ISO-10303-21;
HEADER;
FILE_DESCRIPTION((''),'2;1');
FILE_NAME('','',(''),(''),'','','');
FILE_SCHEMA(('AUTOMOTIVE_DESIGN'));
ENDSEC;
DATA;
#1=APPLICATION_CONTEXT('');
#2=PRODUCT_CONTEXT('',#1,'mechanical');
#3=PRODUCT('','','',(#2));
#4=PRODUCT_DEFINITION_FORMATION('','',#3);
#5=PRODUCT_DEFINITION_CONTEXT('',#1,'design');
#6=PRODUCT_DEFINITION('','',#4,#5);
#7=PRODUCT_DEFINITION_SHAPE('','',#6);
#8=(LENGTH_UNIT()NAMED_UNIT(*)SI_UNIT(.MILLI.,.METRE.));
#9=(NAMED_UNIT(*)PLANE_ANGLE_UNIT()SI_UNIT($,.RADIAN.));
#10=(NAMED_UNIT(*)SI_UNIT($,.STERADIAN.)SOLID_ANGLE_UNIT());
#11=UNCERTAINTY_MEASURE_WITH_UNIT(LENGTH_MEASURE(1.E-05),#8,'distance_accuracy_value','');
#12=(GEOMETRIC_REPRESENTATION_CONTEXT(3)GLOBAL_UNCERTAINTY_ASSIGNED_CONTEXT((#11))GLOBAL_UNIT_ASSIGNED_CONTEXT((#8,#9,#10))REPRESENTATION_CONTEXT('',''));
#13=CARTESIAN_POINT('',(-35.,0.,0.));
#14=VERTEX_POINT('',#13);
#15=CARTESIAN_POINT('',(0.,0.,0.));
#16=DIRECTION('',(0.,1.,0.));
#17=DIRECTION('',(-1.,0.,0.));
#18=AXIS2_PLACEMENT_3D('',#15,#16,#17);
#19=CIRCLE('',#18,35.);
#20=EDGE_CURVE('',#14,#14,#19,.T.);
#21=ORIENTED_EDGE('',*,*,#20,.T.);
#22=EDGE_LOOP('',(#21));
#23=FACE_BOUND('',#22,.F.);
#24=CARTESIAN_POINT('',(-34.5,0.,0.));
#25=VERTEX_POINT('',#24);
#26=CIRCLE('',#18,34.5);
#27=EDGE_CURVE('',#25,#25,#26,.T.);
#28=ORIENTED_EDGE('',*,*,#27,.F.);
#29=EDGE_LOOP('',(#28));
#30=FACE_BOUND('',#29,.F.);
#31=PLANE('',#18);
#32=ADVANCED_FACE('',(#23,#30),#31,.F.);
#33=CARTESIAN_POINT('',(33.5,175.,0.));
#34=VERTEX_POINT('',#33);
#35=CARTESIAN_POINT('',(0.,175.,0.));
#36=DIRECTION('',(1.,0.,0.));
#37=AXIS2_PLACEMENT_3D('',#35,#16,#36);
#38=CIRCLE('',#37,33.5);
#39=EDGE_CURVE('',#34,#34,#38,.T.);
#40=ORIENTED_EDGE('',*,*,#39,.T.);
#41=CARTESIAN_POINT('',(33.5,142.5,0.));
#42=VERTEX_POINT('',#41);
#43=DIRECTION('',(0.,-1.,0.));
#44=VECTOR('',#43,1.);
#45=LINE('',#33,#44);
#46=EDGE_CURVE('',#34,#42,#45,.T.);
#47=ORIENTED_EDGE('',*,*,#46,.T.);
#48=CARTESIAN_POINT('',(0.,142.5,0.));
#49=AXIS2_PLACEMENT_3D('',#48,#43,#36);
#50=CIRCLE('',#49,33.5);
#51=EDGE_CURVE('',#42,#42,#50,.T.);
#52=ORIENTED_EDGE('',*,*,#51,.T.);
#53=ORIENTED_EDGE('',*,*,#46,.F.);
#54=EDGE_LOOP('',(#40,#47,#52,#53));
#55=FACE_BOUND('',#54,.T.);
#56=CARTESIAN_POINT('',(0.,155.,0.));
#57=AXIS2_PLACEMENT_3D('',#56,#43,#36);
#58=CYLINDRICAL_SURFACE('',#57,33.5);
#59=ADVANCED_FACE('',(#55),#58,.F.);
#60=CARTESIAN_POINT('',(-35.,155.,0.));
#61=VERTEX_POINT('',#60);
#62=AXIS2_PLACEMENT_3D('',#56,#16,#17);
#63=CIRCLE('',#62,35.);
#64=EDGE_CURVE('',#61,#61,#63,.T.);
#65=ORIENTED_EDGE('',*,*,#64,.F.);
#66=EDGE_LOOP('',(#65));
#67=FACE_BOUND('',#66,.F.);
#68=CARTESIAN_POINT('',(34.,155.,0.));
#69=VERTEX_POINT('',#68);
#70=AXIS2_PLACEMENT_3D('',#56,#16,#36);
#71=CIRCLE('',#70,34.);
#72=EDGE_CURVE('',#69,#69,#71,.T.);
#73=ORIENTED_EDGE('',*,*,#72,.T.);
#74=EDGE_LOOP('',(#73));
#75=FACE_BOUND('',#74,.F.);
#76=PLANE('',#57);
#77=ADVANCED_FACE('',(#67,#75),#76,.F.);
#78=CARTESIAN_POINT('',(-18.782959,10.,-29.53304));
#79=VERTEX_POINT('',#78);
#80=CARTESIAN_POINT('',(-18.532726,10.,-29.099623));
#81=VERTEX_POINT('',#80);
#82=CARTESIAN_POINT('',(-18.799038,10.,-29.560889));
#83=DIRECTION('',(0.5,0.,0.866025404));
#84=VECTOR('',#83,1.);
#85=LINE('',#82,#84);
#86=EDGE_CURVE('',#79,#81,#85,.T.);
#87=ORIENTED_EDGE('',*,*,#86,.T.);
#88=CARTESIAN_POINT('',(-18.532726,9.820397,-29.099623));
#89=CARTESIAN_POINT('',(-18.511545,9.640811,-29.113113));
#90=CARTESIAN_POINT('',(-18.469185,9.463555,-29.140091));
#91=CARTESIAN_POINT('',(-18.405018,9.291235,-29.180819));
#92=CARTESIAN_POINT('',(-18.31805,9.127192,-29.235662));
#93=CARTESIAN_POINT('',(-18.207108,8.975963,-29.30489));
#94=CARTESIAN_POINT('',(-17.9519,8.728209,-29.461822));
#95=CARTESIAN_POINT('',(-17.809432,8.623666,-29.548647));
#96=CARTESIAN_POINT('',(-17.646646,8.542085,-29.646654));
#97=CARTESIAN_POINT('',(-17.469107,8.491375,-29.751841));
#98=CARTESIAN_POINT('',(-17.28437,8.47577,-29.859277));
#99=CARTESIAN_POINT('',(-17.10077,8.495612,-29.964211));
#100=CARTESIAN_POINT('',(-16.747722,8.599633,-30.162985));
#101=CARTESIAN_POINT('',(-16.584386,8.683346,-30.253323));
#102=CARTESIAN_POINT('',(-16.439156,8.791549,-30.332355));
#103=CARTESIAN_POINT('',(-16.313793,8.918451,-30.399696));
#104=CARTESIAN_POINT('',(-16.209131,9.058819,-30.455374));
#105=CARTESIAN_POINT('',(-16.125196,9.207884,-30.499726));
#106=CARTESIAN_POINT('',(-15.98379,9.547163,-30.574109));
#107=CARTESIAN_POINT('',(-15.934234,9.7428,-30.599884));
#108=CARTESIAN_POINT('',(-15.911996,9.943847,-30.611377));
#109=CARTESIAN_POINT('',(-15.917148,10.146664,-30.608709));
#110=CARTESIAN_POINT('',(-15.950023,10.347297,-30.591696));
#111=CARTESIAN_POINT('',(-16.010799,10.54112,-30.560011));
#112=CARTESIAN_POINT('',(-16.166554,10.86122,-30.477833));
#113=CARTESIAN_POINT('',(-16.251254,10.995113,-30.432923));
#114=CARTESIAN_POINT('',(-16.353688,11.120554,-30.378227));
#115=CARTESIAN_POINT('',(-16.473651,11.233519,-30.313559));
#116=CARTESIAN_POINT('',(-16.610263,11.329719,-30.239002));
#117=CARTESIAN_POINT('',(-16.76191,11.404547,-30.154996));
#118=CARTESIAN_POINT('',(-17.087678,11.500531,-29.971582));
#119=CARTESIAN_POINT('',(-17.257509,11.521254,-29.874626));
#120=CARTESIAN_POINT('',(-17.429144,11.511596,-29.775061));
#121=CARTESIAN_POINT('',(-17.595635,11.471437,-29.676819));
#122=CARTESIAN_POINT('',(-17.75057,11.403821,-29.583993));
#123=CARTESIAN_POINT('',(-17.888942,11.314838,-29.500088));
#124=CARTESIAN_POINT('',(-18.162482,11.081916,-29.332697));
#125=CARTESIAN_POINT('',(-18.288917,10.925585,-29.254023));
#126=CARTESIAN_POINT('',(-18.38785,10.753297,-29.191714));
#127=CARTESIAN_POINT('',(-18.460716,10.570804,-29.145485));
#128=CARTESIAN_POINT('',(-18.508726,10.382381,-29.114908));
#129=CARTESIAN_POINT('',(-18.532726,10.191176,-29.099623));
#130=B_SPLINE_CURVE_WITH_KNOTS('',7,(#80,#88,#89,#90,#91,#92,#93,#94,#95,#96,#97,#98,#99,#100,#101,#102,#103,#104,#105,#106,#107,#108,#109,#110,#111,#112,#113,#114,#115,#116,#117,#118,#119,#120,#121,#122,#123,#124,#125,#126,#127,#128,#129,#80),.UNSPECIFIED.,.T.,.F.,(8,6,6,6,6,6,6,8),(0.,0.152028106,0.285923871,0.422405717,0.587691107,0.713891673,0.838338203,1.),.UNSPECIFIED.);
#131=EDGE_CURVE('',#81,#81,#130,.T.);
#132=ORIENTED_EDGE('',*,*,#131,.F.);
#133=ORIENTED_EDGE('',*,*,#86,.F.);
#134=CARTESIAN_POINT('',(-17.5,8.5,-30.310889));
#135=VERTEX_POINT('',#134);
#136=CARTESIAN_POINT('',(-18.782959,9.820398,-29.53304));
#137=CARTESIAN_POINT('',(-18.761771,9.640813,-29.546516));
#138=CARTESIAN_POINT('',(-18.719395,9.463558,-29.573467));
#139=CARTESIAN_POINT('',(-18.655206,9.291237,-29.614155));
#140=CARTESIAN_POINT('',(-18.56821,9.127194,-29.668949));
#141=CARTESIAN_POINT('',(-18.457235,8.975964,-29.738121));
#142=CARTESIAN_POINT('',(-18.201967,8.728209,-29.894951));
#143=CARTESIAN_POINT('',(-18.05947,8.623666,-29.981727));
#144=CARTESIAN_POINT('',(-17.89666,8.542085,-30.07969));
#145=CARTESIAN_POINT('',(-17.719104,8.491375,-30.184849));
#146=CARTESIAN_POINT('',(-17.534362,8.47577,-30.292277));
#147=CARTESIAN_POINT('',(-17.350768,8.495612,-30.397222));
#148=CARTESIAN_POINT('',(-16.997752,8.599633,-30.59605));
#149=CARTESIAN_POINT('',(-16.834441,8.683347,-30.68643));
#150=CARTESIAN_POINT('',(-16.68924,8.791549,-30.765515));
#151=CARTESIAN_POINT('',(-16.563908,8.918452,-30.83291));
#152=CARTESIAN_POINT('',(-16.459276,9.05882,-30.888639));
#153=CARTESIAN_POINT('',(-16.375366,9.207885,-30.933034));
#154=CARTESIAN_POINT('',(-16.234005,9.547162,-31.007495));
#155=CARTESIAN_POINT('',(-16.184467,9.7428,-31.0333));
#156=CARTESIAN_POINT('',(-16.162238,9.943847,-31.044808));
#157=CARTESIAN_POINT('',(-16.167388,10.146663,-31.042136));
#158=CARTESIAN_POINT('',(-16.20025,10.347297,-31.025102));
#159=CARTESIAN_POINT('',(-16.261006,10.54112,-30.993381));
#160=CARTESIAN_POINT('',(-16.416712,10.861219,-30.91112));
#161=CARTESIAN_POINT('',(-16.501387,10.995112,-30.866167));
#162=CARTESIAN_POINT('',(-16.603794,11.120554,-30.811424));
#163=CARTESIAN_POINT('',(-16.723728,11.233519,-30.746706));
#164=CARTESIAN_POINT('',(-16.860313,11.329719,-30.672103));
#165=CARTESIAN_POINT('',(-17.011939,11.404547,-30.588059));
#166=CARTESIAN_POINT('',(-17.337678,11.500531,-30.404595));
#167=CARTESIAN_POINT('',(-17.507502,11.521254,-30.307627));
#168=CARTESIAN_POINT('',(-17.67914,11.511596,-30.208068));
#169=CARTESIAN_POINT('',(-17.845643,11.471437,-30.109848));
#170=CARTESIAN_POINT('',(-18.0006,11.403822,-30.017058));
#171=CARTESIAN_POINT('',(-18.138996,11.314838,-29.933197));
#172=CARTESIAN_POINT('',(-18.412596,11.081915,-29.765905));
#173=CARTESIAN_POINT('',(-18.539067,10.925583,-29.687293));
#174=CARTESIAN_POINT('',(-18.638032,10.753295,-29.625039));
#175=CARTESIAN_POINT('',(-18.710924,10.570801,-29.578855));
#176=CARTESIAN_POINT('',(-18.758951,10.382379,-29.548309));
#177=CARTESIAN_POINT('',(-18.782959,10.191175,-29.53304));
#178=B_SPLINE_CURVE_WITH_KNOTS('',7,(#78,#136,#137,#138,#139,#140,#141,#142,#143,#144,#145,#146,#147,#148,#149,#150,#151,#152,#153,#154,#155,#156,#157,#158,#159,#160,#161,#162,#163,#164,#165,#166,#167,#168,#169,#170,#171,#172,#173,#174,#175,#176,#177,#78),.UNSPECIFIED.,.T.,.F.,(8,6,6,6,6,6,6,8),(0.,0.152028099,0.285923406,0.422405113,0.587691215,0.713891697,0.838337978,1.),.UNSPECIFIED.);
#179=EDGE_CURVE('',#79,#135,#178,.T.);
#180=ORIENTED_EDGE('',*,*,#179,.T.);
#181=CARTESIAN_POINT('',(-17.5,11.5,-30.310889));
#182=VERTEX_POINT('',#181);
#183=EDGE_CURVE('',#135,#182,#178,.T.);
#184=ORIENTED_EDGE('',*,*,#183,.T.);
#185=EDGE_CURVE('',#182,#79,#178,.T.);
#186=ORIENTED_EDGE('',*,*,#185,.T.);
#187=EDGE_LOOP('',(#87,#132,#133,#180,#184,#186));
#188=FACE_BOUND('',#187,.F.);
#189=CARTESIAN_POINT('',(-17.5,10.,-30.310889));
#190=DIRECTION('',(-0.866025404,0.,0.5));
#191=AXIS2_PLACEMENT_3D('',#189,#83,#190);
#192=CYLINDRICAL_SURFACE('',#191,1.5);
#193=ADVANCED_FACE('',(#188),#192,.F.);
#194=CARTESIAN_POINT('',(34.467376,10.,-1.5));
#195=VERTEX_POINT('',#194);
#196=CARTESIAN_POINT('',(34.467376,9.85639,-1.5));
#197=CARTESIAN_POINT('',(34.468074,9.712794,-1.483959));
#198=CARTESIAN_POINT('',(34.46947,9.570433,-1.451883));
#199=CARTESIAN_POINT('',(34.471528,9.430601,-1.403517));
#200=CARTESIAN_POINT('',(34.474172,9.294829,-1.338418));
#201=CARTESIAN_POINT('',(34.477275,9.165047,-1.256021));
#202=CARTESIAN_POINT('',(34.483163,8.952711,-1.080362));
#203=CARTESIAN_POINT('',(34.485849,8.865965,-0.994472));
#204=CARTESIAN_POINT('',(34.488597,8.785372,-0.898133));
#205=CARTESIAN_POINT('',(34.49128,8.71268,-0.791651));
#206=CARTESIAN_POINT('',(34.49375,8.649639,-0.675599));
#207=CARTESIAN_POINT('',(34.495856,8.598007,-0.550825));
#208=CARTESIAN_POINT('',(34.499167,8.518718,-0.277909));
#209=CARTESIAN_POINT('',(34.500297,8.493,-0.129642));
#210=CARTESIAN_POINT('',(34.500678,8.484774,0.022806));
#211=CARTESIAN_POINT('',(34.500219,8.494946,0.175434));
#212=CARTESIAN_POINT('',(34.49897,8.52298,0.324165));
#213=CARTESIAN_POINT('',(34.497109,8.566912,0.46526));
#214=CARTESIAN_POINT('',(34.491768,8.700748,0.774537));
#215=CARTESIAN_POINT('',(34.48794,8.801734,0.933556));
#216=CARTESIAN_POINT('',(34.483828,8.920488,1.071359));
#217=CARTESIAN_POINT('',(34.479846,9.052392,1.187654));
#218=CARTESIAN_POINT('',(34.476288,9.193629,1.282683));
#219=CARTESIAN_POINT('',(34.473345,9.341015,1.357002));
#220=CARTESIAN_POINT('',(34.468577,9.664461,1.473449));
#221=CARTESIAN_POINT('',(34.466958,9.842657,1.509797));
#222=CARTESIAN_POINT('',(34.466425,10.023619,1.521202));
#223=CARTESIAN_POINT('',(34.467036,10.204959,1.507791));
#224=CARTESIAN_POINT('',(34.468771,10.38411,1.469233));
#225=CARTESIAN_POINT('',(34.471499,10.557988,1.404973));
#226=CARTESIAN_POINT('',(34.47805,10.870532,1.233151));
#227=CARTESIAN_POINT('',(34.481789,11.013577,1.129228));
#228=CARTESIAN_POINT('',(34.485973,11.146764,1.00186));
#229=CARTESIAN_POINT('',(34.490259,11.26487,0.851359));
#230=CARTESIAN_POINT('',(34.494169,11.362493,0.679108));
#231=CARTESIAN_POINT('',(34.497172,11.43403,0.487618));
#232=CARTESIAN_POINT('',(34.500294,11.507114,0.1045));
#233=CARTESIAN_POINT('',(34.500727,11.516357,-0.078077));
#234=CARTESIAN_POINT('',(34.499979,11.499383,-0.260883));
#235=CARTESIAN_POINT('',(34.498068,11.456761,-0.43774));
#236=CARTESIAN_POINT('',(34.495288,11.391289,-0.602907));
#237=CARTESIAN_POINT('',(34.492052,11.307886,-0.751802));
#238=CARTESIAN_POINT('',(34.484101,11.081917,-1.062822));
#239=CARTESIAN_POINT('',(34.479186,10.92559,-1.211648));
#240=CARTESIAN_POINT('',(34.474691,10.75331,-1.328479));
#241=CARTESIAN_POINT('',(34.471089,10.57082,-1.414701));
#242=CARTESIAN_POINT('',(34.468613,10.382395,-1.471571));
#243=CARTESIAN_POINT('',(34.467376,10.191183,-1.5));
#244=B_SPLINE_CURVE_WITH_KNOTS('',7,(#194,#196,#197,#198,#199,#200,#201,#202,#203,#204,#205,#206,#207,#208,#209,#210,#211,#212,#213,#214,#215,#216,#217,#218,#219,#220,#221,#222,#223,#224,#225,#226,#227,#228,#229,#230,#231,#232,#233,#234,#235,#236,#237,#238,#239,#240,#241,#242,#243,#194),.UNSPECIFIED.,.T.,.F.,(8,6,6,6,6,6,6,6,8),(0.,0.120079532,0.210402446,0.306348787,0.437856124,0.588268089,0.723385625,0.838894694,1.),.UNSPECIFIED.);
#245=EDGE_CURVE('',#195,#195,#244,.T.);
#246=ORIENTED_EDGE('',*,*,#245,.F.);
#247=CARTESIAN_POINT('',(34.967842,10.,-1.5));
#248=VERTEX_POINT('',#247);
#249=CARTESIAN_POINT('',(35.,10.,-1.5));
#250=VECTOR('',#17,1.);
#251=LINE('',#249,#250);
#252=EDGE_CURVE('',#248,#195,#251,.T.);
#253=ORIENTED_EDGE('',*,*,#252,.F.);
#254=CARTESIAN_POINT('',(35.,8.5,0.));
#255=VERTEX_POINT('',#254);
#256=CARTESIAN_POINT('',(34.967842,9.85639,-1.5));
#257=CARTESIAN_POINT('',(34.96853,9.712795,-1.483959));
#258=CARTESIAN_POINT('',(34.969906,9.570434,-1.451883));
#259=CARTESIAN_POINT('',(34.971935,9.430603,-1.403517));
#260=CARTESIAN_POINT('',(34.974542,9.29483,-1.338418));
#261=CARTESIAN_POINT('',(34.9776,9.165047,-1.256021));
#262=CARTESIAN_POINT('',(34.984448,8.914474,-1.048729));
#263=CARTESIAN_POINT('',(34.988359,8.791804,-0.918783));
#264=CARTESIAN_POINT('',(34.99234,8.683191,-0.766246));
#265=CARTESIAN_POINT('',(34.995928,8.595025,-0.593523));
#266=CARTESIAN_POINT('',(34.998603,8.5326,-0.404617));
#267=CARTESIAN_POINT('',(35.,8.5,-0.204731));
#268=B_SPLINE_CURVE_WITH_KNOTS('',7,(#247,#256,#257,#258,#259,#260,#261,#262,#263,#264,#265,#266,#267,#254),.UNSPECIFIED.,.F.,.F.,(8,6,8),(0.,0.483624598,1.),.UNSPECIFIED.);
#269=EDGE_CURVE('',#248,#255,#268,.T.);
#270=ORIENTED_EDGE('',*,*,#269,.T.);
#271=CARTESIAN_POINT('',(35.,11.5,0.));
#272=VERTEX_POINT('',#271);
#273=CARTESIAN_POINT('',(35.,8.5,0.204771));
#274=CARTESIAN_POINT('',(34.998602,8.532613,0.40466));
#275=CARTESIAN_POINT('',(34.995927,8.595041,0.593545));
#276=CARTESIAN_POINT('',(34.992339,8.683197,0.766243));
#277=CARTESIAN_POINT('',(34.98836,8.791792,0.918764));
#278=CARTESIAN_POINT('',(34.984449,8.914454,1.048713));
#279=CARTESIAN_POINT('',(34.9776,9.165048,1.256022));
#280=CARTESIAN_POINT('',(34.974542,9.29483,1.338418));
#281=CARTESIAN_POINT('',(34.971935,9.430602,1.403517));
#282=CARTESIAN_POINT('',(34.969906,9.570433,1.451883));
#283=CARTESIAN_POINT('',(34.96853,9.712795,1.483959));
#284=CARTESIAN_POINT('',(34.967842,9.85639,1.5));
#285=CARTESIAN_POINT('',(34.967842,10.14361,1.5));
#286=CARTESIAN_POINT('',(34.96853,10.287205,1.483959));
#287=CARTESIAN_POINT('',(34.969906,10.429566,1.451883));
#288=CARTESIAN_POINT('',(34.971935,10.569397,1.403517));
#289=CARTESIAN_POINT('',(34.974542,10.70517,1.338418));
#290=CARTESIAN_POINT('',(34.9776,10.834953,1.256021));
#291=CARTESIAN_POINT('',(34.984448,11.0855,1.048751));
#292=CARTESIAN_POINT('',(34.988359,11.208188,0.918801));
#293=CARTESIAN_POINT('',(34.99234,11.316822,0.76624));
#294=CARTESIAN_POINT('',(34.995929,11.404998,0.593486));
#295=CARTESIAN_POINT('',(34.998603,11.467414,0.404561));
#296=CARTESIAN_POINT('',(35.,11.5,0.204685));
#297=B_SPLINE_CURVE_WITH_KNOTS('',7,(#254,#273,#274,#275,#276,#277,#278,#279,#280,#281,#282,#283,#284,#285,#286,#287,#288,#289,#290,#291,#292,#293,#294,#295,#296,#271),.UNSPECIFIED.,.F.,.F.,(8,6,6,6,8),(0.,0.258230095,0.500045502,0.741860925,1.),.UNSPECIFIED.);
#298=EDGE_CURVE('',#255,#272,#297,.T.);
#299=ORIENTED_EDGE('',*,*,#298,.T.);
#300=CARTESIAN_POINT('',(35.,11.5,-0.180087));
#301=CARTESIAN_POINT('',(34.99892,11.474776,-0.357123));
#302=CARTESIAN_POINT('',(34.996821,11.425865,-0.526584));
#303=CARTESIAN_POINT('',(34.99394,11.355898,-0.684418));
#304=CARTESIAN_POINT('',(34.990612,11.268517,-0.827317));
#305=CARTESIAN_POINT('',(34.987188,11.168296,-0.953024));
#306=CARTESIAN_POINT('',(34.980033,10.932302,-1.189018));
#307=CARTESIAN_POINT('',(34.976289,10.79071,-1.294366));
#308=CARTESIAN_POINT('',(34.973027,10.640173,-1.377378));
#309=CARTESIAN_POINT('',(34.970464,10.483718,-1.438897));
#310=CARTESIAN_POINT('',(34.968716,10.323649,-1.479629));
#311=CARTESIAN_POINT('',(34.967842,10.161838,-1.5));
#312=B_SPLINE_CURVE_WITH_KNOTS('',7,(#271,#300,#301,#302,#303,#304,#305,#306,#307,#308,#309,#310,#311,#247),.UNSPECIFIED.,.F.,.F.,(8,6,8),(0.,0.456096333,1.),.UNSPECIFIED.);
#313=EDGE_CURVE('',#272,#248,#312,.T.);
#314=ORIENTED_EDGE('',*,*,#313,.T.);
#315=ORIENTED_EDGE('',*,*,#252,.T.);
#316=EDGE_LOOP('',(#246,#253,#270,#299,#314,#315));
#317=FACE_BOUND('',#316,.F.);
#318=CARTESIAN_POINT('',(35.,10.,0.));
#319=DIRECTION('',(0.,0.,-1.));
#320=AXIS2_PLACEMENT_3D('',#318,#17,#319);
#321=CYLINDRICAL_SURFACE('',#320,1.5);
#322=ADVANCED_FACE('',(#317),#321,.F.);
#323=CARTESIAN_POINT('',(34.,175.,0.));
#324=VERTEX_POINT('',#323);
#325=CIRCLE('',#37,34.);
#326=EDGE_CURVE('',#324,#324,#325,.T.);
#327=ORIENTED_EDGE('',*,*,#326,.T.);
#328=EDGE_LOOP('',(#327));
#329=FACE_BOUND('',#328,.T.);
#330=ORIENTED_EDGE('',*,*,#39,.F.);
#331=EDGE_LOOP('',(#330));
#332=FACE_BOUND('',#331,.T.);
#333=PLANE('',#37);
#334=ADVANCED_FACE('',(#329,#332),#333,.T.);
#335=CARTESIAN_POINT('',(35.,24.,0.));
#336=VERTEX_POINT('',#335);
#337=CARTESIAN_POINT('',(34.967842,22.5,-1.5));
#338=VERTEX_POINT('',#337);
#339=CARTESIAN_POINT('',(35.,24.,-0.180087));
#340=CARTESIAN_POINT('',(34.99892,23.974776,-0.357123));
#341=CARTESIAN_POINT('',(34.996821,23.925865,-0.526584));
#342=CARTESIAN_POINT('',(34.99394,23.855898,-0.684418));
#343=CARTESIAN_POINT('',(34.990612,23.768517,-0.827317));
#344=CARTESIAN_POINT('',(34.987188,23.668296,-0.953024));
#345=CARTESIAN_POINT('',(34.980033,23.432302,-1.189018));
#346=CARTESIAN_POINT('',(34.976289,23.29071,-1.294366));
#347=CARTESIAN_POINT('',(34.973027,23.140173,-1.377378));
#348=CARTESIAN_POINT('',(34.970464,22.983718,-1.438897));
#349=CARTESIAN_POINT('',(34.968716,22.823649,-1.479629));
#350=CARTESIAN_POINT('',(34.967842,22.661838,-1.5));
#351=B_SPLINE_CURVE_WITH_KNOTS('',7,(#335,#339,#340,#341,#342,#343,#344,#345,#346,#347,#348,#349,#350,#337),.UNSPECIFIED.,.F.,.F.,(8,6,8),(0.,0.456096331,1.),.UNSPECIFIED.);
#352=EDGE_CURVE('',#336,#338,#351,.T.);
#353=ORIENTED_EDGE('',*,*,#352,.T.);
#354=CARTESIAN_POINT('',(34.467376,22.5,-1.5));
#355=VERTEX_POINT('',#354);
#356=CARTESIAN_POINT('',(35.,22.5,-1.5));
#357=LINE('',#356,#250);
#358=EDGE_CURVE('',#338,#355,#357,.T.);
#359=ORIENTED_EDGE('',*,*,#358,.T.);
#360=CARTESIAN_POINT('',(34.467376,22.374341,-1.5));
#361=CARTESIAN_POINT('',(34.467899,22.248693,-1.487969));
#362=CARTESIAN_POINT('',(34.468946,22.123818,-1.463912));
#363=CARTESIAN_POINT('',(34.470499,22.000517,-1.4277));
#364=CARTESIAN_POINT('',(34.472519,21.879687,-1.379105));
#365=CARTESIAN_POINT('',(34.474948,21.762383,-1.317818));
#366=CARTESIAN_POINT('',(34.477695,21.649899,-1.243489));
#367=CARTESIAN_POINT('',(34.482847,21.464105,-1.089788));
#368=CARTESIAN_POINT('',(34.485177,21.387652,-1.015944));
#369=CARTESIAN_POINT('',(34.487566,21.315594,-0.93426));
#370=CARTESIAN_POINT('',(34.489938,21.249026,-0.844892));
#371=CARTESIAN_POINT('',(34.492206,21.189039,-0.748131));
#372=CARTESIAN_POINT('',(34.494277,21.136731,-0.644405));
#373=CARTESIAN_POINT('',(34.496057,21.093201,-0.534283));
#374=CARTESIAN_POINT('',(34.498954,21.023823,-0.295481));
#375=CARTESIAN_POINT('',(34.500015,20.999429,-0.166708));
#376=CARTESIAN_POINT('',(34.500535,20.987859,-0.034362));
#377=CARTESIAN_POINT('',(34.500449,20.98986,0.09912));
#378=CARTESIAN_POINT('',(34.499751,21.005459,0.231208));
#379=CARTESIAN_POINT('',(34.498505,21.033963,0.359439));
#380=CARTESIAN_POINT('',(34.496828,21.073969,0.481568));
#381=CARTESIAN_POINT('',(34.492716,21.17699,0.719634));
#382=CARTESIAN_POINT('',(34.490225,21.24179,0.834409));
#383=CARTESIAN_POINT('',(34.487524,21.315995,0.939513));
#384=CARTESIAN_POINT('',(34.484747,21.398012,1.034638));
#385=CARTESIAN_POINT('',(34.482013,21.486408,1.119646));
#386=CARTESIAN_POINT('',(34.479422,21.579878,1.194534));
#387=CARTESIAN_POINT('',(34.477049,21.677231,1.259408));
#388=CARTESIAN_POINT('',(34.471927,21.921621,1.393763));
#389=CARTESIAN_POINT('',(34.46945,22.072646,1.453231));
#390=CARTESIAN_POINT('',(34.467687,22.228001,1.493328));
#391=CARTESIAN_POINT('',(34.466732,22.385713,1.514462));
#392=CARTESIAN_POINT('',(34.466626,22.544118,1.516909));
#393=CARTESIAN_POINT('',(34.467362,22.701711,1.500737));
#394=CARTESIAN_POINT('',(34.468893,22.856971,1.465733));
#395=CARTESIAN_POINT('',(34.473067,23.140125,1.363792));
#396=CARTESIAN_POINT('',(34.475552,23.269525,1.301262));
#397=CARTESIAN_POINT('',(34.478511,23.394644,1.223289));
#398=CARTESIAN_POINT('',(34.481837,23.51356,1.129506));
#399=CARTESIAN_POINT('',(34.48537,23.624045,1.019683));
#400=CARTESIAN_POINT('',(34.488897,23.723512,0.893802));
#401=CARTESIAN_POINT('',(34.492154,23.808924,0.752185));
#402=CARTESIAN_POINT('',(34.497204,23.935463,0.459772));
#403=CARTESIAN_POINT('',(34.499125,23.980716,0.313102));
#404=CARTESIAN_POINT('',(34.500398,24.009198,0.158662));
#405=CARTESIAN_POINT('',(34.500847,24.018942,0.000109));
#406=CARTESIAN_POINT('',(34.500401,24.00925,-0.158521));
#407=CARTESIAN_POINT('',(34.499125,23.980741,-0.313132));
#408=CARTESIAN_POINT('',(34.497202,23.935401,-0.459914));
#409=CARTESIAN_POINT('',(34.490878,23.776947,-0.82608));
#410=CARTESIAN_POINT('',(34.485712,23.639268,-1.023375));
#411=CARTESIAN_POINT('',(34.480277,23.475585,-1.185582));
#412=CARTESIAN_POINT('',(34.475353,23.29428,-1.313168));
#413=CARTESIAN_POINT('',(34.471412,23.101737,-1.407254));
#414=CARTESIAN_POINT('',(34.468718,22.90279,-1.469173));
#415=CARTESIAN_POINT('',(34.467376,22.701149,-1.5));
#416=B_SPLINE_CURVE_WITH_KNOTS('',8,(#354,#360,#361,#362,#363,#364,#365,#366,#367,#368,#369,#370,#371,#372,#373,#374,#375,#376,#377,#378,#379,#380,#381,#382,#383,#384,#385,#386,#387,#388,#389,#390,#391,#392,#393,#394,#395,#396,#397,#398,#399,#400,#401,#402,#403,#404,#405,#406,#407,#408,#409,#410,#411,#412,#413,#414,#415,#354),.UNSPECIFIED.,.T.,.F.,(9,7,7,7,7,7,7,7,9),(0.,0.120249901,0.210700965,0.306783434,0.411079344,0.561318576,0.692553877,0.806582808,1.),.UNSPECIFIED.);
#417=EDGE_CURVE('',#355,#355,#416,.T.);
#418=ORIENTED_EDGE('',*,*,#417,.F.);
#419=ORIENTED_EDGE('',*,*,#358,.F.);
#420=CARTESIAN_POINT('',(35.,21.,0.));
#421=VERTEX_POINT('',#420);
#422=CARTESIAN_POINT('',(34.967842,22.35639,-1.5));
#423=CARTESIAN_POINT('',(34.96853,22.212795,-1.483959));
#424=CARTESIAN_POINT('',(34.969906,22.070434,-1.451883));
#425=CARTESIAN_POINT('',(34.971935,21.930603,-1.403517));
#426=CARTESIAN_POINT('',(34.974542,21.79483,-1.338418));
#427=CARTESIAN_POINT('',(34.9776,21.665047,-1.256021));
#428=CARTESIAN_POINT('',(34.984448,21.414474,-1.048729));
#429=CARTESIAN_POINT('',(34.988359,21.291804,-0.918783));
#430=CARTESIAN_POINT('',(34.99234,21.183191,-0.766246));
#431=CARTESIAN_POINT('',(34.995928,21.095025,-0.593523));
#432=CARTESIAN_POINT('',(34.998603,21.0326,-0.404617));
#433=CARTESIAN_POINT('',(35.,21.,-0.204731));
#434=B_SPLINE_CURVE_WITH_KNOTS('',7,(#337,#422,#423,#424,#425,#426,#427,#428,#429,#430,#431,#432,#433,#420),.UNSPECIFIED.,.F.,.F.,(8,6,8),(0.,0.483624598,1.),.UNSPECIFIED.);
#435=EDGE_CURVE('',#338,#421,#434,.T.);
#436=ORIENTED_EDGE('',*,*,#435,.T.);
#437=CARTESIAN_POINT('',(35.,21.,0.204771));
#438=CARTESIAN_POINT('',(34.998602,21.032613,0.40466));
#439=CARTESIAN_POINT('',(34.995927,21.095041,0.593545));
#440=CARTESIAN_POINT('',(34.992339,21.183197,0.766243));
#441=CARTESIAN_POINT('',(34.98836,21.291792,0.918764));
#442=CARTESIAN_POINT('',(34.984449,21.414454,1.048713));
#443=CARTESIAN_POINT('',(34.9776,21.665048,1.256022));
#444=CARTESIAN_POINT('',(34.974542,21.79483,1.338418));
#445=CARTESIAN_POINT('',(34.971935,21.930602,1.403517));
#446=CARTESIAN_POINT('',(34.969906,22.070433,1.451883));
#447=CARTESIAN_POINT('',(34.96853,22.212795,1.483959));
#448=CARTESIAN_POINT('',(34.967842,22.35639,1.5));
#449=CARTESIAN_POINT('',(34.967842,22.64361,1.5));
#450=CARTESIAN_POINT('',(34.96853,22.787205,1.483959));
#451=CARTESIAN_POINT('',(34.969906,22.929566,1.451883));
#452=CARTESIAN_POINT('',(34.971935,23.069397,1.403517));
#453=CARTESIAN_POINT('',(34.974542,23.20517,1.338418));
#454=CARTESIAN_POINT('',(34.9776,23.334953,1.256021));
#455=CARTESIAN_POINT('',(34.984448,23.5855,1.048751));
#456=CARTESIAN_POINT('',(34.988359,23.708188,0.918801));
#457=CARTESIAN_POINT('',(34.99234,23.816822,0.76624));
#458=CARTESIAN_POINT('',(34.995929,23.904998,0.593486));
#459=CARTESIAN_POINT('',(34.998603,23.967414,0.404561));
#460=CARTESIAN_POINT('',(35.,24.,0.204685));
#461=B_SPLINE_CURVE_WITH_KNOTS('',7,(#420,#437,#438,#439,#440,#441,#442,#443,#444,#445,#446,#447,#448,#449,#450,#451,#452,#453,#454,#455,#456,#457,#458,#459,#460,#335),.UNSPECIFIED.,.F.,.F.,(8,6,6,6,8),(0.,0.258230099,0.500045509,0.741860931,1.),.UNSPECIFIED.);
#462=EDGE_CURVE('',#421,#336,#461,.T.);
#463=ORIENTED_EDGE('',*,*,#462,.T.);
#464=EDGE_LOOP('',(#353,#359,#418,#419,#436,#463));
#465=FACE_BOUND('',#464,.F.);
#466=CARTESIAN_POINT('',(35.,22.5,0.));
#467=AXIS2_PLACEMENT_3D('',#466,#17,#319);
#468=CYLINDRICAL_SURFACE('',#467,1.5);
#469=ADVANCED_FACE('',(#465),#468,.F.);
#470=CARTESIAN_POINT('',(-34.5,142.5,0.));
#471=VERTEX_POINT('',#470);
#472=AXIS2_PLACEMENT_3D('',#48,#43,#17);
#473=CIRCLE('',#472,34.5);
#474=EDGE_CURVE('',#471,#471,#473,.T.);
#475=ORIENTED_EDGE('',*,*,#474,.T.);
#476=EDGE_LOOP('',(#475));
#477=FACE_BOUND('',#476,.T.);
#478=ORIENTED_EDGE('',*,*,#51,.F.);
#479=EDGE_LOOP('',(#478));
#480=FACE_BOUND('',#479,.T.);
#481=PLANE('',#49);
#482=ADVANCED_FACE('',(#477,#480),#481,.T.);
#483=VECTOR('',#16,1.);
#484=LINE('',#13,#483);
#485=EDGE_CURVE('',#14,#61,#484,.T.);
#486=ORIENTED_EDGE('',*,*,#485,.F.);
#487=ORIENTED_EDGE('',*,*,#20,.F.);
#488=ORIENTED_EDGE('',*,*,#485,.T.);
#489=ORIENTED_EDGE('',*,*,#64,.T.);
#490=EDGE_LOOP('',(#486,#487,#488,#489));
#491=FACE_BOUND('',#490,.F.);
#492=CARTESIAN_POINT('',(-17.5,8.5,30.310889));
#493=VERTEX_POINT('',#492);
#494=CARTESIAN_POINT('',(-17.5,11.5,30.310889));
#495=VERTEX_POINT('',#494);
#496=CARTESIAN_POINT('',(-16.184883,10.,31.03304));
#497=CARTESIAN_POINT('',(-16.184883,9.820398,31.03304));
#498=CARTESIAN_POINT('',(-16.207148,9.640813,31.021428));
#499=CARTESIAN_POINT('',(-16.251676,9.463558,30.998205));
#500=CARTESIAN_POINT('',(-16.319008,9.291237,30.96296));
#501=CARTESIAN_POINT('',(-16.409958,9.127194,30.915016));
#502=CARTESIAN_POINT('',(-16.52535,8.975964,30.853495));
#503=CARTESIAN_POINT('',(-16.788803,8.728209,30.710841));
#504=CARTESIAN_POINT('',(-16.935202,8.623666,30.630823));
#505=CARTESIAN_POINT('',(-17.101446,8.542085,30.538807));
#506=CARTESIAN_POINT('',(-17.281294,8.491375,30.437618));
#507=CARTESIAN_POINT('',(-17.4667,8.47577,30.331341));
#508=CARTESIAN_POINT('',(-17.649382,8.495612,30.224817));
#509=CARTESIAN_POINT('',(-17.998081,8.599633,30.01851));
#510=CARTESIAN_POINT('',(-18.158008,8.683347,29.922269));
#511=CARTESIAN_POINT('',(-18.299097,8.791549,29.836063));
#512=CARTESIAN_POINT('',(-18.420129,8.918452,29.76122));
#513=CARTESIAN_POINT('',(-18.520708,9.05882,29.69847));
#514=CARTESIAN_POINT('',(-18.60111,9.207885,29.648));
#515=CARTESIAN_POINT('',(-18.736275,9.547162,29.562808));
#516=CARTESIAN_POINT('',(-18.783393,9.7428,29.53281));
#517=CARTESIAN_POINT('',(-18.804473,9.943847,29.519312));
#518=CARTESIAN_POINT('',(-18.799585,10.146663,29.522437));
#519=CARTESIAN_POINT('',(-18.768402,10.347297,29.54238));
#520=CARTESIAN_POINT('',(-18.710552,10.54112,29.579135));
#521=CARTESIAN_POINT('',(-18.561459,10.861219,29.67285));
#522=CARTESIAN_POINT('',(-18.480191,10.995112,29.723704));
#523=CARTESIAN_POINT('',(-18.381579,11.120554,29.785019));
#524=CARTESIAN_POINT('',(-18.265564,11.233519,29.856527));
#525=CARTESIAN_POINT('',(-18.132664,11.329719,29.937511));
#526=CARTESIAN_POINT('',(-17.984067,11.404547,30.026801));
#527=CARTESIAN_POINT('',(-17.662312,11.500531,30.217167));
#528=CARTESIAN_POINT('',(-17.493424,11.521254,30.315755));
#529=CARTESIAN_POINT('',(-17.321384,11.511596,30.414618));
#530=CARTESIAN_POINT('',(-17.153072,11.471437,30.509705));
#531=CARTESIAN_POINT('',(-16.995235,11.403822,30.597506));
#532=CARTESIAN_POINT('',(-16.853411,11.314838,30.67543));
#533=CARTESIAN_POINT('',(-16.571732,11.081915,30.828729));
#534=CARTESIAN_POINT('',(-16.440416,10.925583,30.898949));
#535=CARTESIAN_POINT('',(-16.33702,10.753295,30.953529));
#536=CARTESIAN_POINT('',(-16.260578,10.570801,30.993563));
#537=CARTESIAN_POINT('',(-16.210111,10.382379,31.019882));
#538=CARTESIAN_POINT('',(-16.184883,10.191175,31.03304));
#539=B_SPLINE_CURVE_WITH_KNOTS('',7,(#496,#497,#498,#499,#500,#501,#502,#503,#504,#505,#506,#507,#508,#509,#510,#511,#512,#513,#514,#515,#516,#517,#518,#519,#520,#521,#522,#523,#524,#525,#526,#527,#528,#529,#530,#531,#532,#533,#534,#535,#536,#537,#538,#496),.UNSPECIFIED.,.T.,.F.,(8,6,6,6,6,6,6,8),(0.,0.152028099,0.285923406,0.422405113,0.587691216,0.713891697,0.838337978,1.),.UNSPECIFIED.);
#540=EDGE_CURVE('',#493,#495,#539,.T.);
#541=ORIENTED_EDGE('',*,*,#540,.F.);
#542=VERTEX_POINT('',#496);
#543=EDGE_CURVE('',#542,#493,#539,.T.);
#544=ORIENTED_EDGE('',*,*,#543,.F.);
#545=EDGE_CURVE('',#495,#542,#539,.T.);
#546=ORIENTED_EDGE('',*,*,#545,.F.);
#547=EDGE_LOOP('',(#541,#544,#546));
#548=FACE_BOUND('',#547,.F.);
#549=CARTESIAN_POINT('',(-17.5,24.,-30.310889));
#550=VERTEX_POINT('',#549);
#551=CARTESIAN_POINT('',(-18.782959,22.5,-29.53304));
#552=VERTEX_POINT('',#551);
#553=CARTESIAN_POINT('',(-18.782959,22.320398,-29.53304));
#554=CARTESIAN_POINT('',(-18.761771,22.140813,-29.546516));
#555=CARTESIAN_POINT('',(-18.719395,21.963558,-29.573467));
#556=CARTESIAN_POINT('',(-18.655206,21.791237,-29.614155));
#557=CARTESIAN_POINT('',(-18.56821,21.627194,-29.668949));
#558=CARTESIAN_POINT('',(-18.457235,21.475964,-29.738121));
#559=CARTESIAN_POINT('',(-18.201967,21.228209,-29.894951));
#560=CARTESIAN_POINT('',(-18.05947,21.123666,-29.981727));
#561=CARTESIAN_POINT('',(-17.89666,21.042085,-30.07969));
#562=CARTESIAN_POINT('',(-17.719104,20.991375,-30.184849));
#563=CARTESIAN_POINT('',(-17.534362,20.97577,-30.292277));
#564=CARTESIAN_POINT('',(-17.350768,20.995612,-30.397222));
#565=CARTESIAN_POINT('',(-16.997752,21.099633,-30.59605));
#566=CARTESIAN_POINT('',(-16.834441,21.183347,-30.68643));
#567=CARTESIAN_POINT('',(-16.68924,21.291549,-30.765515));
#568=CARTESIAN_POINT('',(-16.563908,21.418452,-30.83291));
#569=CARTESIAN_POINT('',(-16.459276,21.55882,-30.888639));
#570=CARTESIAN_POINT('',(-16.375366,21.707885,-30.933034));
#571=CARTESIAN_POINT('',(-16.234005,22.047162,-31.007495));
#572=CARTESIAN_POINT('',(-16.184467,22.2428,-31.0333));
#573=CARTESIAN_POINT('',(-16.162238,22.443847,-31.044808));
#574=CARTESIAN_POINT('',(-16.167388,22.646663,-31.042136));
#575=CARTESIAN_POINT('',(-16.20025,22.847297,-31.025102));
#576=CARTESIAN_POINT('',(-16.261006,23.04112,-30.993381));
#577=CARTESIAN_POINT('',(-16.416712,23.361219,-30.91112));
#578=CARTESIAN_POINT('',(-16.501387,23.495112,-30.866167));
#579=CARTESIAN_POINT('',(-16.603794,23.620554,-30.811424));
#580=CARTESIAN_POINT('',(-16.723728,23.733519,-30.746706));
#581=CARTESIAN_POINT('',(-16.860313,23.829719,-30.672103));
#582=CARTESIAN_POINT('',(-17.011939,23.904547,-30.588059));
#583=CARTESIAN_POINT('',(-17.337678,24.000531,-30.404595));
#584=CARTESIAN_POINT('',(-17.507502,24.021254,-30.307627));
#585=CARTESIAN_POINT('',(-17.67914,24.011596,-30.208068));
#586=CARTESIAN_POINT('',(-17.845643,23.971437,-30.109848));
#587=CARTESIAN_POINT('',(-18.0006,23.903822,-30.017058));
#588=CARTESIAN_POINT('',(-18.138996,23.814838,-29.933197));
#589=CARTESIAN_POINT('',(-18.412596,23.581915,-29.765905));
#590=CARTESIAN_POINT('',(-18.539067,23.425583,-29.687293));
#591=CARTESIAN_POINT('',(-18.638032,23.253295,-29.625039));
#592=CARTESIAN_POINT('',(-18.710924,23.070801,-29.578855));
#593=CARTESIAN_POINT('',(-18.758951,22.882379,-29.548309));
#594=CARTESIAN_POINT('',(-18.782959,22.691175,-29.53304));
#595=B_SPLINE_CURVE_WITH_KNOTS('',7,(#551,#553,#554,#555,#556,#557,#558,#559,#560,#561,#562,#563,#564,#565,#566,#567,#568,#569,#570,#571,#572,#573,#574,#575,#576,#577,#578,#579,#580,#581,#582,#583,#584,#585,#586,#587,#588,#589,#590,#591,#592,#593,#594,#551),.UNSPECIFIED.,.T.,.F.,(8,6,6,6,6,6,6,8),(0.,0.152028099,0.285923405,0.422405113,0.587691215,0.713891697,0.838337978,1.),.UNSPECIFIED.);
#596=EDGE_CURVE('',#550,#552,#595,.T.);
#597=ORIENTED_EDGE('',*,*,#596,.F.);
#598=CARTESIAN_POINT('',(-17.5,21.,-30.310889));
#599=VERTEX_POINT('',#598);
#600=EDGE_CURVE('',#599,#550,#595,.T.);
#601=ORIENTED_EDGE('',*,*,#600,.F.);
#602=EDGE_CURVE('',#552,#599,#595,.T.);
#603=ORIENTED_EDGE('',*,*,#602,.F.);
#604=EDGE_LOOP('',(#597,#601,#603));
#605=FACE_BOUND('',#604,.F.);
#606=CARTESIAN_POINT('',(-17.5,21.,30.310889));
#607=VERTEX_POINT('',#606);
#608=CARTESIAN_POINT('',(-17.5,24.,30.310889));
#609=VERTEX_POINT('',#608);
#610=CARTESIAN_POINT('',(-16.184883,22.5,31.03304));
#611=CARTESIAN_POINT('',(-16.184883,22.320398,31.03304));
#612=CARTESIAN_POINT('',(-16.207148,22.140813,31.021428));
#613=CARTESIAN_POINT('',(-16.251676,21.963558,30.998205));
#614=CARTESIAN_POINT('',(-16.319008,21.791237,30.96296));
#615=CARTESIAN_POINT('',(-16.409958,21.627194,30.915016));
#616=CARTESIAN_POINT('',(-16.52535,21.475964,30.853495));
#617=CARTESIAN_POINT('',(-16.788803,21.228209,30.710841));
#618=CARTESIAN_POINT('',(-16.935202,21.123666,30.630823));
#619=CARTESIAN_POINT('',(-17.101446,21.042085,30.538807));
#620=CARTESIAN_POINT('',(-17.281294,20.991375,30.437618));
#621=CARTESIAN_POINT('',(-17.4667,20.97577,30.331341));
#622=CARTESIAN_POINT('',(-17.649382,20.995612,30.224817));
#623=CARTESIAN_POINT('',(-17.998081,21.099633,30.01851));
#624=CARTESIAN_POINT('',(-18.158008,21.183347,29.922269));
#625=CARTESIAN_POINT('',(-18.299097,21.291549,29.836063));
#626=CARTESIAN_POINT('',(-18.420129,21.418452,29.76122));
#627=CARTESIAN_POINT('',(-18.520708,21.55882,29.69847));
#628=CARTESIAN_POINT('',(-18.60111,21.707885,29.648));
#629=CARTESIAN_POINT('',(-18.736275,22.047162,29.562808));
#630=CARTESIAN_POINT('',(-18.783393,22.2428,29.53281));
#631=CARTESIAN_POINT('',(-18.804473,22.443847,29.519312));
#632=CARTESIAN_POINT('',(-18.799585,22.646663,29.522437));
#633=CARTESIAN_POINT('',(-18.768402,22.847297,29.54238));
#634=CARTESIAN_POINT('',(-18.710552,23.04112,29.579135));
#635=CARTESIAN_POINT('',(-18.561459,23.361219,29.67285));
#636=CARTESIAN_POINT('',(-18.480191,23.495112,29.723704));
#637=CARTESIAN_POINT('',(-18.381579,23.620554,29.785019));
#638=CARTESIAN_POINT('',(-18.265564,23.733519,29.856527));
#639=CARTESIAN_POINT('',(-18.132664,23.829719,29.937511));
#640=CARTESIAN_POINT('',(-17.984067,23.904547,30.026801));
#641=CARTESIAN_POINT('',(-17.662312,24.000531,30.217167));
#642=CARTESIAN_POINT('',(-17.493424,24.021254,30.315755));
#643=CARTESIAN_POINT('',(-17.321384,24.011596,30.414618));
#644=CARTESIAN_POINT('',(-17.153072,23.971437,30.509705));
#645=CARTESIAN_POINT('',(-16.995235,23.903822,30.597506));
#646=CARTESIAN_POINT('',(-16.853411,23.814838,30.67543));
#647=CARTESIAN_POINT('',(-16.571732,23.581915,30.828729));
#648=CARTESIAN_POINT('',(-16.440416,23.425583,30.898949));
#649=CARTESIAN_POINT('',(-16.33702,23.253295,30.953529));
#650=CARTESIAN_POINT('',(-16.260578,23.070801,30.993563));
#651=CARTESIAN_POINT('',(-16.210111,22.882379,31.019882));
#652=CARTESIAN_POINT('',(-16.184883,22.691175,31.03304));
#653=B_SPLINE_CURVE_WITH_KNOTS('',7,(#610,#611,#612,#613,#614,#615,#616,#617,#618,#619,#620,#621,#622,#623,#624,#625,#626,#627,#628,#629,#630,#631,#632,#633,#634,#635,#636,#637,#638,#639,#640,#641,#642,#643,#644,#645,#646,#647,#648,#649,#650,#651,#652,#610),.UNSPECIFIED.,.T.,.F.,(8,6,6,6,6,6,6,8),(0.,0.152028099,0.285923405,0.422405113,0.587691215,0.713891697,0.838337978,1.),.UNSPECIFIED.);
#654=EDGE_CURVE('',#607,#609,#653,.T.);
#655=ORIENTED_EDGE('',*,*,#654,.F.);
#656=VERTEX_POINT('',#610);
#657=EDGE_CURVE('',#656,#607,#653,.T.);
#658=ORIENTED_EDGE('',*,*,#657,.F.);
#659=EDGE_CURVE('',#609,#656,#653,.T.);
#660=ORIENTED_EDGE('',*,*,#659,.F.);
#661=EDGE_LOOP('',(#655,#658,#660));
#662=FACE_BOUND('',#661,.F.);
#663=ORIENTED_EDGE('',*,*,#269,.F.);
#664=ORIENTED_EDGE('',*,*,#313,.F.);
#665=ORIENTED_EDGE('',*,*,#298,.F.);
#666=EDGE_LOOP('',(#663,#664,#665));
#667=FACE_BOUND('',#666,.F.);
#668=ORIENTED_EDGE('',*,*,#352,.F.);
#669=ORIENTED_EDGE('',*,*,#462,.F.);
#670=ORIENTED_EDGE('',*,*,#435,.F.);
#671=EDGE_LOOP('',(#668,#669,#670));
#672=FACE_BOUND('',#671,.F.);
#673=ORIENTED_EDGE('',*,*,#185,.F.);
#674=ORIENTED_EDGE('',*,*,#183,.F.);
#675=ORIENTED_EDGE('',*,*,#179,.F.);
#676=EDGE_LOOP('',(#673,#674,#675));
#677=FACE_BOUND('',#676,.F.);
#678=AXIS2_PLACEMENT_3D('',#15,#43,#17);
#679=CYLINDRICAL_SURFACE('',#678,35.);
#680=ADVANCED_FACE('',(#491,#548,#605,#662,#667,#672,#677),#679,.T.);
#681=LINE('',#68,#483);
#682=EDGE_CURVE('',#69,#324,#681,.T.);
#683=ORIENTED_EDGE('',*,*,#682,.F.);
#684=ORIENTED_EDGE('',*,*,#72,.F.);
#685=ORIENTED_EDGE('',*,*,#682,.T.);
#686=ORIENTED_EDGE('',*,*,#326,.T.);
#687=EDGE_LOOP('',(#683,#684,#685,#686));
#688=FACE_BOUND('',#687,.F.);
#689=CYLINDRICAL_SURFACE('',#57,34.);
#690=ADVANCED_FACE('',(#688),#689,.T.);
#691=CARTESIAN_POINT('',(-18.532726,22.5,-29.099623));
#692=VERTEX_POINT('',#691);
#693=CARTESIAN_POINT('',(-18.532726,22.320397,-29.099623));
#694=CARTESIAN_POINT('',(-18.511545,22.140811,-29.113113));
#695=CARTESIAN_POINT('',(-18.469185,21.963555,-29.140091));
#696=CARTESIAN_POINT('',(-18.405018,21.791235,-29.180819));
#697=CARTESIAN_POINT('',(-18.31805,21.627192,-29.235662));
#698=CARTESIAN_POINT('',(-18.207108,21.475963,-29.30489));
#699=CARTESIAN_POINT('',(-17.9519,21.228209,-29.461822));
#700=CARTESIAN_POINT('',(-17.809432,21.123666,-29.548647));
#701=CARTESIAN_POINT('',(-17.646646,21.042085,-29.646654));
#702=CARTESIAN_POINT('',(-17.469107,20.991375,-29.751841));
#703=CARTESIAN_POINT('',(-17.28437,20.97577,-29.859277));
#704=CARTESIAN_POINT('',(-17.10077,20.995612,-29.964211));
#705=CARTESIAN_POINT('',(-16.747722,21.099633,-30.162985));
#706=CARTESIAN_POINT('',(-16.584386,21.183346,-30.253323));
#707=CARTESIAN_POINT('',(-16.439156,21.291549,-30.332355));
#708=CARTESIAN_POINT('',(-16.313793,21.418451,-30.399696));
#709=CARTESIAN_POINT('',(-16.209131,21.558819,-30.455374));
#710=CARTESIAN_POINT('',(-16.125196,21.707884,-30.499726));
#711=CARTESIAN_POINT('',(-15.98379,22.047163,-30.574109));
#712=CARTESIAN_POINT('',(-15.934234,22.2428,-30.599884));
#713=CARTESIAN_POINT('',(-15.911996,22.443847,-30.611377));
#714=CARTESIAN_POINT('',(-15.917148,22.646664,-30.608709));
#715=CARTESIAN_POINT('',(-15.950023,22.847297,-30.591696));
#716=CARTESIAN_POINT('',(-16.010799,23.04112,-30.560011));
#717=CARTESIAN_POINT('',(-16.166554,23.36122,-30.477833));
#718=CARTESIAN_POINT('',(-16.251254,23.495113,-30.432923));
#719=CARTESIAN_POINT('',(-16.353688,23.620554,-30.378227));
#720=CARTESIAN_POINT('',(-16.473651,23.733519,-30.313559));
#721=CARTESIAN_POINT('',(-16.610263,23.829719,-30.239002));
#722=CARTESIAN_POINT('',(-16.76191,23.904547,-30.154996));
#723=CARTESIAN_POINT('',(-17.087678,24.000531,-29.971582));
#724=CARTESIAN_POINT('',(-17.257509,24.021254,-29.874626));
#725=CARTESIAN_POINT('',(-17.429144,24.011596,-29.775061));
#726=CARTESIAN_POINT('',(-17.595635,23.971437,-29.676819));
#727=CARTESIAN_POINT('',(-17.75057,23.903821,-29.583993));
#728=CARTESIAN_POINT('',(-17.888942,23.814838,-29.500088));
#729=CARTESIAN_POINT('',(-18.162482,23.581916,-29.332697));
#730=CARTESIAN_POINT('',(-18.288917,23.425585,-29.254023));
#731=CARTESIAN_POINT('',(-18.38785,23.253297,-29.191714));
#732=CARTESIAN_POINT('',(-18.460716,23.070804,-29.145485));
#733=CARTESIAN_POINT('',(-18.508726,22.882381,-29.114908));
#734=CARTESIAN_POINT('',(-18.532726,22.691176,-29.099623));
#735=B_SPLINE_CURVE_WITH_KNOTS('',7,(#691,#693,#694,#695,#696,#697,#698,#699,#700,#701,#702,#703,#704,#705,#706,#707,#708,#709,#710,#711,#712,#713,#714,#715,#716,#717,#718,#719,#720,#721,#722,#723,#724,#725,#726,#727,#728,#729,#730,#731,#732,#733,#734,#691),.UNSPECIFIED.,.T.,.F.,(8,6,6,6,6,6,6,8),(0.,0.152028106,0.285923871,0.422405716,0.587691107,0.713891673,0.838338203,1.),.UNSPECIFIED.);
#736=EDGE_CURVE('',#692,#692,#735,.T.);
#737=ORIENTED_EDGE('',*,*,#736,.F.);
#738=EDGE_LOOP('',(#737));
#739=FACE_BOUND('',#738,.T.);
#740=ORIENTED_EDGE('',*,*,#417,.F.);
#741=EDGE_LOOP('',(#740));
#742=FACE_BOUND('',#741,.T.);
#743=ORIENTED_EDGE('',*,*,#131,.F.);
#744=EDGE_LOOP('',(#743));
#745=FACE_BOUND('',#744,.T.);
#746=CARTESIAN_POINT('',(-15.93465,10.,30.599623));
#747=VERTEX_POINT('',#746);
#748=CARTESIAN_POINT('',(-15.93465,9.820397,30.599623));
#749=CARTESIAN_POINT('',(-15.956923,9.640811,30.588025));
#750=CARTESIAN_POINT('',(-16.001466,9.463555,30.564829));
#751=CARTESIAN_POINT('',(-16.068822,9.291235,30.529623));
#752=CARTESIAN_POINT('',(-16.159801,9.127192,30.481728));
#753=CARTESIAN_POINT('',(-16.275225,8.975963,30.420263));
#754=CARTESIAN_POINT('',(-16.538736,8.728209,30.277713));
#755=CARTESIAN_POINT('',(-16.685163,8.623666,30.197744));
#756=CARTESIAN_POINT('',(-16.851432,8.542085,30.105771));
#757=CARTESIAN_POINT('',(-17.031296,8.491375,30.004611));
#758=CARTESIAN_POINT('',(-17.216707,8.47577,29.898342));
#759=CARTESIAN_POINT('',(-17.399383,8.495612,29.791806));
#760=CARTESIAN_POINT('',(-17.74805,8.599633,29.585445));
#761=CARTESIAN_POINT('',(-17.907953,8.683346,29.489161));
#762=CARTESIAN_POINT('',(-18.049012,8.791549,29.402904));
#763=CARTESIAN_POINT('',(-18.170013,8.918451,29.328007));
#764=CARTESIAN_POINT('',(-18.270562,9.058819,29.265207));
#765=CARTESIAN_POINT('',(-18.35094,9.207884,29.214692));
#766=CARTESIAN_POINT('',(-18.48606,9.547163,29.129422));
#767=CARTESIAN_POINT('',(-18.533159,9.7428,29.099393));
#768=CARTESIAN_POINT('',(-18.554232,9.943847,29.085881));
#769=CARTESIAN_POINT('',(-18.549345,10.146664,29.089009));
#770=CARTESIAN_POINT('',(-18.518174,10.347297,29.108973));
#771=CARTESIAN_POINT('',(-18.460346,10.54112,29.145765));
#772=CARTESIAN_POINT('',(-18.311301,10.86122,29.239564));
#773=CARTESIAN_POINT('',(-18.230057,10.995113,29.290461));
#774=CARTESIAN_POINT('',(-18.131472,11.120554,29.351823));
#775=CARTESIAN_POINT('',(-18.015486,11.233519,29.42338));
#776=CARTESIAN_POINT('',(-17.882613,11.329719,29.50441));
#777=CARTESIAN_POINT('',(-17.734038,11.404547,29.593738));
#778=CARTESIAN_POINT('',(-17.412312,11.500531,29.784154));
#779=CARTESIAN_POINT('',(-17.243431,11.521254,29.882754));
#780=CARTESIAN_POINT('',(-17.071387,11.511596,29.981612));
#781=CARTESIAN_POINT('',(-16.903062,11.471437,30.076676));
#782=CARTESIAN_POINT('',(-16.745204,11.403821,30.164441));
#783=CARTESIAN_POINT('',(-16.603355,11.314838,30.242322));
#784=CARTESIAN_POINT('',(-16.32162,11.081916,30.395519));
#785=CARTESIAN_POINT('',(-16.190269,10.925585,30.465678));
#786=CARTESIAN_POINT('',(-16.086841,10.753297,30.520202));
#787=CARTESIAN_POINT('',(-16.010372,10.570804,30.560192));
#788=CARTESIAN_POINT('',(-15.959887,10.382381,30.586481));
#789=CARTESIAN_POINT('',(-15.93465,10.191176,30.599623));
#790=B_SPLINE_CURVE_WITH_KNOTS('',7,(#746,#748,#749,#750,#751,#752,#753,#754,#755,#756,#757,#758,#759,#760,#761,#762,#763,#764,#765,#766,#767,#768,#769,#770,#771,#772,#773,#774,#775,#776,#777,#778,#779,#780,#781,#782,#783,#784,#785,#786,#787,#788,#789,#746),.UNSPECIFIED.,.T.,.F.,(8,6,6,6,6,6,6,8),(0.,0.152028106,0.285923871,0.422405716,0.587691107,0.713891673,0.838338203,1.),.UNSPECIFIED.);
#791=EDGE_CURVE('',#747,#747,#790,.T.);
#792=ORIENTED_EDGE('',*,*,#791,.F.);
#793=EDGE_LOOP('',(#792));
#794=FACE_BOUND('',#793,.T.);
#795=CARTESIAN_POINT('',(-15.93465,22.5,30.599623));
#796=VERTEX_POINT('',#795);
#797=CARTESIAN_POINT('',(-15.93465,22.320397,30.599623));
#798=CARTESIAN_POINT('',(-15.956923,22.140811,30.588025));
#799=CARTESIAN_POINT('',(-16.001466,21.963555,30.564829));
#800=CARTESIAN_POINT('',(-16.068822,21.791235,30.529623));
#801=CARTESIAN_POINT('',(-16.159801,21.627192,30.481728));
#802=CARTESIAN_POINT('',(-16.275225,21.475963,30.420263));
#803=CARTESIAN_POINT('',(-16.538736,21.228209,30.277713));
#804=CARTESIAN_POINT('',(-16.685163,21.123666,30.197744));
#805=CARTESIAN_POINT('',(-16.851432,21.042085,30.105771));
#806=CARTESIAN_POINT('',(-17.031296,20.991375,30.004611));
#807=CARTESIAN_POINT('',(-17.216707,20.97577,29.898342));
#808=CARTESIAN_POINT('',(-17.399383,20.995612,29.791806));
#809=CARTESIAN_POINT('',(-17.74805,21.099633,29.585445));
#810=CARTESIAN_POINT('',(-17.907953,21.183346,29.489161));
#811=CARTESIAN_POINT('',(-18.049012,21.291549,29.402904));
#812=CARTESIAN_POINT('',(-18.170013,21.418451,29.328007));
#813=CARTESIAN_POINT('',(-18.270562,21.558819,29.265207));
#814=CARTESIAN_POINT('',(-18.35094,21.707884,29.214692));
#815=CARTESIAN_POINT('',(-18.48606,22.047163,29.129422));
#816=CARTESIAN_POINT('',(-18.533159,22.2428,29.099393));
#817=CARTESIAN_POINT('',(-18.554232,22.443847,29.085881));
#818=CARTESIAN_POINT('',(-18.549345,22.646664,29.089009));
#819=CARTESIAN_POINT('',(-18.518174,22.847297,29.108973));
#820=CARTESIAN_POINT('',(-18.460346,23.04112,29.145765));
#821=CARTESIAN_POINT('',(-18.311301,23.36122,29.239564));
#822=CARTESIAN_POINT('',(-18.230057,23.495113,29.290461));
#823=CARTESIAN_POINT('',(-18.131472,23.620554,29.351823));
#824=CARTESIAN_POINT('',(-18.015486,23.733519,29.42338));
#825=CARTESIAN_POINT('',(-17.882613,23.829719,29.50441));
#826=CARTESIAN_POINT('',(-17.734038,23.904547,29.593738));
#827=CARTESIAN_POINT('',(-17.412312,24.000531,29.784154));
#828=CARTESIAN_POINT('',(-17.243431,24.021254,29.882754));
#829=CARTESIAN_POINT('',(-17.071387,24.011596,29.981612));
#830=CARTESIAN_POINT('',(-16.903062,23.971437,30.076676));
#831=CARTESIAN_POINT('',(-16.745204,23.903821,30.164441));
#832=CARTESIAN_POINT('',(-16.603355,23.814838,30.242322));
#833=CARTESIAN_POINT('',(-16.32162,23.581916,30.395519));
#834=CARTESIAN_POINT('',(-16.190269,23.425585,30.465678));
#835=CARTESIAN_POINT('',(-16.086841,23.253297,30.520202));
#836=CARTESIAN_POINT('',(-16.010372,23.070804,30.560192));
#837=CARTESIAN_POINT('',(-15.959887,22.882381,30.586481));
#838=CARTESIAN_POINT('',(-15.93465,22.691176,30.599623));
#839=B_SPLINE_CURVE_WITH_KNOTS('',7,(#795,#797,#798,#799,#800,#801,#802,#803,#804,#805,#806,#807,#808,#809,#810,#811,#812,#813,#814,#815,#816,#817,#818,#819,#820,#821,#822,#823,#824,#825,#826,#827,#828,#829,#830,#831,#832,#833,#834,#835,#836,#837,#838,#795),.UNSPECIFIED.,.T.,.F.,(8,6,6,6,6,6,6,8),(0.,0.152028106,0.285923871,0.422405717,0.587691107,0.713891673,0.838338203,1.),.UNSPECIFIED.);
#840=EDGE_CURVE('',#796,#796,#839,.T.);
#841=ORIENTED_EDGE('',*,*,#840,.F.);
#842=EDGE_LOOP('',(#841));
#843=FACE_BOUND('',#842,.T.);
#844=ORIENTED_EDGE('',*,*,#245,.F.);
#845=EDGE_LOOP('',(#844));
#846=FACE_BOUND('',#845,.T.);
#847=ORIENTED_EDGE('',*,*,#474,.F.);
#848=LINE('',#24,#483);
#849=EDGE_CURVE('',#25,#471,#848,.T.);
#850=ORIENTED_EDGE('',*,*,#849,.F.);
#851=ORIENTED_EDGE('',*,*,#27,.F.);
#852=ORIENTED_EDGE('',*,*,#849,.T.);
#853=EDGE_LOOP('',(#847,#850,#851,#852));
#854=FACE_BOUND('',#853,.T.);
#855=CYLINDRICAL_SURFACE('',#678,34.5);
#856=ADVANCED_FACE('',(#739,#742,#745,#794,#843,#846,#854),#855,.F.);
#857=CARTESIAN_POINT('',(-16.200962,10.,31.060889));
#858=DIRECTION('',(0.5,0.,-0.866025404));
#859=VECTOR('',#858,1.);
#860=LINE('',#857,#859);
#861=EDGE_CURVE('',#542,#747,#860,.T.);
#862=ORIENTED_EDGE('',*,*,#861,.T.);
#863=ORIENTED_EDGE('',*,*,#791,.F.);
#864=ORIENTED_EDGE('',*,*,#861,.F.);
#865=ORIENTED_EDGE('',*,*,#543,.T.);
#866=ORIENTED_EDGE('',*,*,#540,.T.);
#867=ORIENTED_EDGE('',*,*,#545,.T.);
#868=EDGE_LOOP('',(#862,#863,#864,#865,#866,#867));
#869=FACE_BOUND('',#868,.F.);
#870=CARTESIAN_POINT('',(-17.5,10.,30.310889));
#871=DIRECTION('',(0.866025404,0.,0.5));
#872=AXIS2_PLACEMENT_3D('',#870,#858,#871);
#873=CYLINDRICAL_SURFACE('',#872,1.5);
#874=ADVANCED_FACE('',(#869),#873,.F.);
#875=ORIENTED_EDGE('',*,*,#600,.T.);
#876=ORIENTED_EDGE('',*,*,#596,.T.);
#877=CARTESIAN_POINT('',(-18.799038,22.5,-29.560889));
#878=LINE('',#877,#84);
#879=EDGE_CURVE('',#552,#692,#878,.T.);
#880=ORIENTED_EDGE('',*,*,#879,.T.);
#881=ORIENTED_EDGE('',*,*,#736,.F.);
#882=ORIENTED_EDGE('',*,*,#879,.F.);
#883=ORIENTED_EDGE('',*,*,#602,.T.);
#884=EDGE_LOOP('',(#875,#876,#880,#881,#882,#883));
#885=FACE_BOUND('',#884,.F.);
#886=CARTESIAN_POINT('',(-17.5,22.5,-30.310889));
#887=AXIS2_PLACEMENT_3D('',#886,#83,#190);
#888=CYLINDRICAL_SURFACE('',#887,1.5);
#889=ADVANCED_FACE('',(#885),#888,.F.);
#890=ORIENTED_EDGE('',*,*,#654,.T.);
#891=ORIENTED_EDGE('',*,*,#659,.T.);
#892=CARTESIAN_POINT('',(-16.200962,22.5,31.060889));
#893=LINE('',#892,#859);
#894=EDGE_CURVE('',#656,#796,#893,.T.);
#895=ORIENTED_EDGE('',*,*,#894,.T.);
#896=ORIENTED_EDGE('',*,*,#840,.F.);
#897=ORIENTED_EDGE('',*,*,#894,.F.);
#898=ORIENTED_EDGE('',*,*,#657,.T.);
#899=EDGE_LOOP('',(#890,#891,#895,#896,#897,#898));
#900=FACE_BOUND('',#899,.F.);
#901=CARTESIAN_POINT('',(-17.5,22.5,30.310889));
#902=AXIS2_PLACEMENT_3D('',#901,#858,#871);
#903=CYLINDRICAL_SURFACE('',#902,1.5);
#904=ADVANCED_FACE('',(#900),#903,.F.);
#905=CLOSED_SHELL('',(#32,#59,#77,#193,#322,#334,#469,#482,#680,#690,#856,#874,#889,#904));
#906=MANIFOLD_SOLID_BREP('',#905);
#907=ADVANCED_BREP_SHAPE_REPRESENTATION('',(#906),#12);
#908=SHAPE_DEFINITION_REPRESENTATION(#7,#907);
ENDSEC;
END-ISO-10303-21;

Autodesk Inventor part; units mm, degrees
ref_plane "XZ Plane" through (0, 0, 0) normal (0, 1, 0) x (-1, 0, 0)
sketch "Sketch1" plane through (0, 0, 0) normal (0, 1, 0) x (-1, 0, 0)
  circle A0 centre (0, 0) radius 35
  circle A1 centre (0, 0) radius 34.5
  dimension "d0" = 70
  dimension "d1" = 69
extrude "Extrusion1" add sketch "Sketch1" along normal blind 155
ref_plane "Work Plane2" through (35, 0, 0) normal (1, 0, 0) x (0, 1, 0)
sketch "Sketch4" plane through (35, 0, 0) normal (1, 0, 0) x (0, 1, 0)
  line L0 (155, -35) -> (155, 35) projected
  point P0 (0, 0)
  point P1 (10, 0)
  dimension "d48" = 10
hole "Hole2" at (35, 10, 0) direction (-1, 0, 0) diameter 3 depth 8 tip angle 118
sketch "Sketch5" plane through (0, 155, 0) normal (0, 1, 0) x (1, 0, 0)
  circle A0 centre (0, 0) radius 34
  circle A1 centre (0, 0) radius 33.5
  dimension "d44" = 68
  dimension "d45" = 67
extrude "Extrusion3" add sketch "Sketch5" along normal blind 20
sketch "Sketch6" plane through (0, 155, 0) normal (0, -1, 0) x (1, 0, 0)
  circle A0 centre (0, 0) radius 33.5
  circle A1 centre (0, 0) radius 34.5 projected
  circle A2 centre (0, 0) radius 35
extrude "Extrusion4" add sketch "Sketch6" along normal blind 12.5 contours A1
ref_plane "Work Plane4" through (34, 0, 0) normal (1, 0, 0) x (0, 1, 0)
pattern_circular "Circular Pattern2" count 3 over 360 about axis through (0, 0, 0) along (0, 1, 0) of "Hole2"
sketch "Sketch10" plane through (35, 0, 0) normal (1, 0, 0) x (0, 1, 0)
  point P0 (0, 0)
  point P1 (22.5, 0)
  dimension "d82" = 22.5
hole "Hole6" at (35, 22.5, 0) direction (-1, 0, 0) diameter 3 depth 8 tip angle 118
pattern_circular "Circular Pattern3" count 3 over 360 about axis through (0, 0, 0) along (0, 1, 0) of "Hole6"
properties part number "Engine skin" material "Plastic, Opaque White"
